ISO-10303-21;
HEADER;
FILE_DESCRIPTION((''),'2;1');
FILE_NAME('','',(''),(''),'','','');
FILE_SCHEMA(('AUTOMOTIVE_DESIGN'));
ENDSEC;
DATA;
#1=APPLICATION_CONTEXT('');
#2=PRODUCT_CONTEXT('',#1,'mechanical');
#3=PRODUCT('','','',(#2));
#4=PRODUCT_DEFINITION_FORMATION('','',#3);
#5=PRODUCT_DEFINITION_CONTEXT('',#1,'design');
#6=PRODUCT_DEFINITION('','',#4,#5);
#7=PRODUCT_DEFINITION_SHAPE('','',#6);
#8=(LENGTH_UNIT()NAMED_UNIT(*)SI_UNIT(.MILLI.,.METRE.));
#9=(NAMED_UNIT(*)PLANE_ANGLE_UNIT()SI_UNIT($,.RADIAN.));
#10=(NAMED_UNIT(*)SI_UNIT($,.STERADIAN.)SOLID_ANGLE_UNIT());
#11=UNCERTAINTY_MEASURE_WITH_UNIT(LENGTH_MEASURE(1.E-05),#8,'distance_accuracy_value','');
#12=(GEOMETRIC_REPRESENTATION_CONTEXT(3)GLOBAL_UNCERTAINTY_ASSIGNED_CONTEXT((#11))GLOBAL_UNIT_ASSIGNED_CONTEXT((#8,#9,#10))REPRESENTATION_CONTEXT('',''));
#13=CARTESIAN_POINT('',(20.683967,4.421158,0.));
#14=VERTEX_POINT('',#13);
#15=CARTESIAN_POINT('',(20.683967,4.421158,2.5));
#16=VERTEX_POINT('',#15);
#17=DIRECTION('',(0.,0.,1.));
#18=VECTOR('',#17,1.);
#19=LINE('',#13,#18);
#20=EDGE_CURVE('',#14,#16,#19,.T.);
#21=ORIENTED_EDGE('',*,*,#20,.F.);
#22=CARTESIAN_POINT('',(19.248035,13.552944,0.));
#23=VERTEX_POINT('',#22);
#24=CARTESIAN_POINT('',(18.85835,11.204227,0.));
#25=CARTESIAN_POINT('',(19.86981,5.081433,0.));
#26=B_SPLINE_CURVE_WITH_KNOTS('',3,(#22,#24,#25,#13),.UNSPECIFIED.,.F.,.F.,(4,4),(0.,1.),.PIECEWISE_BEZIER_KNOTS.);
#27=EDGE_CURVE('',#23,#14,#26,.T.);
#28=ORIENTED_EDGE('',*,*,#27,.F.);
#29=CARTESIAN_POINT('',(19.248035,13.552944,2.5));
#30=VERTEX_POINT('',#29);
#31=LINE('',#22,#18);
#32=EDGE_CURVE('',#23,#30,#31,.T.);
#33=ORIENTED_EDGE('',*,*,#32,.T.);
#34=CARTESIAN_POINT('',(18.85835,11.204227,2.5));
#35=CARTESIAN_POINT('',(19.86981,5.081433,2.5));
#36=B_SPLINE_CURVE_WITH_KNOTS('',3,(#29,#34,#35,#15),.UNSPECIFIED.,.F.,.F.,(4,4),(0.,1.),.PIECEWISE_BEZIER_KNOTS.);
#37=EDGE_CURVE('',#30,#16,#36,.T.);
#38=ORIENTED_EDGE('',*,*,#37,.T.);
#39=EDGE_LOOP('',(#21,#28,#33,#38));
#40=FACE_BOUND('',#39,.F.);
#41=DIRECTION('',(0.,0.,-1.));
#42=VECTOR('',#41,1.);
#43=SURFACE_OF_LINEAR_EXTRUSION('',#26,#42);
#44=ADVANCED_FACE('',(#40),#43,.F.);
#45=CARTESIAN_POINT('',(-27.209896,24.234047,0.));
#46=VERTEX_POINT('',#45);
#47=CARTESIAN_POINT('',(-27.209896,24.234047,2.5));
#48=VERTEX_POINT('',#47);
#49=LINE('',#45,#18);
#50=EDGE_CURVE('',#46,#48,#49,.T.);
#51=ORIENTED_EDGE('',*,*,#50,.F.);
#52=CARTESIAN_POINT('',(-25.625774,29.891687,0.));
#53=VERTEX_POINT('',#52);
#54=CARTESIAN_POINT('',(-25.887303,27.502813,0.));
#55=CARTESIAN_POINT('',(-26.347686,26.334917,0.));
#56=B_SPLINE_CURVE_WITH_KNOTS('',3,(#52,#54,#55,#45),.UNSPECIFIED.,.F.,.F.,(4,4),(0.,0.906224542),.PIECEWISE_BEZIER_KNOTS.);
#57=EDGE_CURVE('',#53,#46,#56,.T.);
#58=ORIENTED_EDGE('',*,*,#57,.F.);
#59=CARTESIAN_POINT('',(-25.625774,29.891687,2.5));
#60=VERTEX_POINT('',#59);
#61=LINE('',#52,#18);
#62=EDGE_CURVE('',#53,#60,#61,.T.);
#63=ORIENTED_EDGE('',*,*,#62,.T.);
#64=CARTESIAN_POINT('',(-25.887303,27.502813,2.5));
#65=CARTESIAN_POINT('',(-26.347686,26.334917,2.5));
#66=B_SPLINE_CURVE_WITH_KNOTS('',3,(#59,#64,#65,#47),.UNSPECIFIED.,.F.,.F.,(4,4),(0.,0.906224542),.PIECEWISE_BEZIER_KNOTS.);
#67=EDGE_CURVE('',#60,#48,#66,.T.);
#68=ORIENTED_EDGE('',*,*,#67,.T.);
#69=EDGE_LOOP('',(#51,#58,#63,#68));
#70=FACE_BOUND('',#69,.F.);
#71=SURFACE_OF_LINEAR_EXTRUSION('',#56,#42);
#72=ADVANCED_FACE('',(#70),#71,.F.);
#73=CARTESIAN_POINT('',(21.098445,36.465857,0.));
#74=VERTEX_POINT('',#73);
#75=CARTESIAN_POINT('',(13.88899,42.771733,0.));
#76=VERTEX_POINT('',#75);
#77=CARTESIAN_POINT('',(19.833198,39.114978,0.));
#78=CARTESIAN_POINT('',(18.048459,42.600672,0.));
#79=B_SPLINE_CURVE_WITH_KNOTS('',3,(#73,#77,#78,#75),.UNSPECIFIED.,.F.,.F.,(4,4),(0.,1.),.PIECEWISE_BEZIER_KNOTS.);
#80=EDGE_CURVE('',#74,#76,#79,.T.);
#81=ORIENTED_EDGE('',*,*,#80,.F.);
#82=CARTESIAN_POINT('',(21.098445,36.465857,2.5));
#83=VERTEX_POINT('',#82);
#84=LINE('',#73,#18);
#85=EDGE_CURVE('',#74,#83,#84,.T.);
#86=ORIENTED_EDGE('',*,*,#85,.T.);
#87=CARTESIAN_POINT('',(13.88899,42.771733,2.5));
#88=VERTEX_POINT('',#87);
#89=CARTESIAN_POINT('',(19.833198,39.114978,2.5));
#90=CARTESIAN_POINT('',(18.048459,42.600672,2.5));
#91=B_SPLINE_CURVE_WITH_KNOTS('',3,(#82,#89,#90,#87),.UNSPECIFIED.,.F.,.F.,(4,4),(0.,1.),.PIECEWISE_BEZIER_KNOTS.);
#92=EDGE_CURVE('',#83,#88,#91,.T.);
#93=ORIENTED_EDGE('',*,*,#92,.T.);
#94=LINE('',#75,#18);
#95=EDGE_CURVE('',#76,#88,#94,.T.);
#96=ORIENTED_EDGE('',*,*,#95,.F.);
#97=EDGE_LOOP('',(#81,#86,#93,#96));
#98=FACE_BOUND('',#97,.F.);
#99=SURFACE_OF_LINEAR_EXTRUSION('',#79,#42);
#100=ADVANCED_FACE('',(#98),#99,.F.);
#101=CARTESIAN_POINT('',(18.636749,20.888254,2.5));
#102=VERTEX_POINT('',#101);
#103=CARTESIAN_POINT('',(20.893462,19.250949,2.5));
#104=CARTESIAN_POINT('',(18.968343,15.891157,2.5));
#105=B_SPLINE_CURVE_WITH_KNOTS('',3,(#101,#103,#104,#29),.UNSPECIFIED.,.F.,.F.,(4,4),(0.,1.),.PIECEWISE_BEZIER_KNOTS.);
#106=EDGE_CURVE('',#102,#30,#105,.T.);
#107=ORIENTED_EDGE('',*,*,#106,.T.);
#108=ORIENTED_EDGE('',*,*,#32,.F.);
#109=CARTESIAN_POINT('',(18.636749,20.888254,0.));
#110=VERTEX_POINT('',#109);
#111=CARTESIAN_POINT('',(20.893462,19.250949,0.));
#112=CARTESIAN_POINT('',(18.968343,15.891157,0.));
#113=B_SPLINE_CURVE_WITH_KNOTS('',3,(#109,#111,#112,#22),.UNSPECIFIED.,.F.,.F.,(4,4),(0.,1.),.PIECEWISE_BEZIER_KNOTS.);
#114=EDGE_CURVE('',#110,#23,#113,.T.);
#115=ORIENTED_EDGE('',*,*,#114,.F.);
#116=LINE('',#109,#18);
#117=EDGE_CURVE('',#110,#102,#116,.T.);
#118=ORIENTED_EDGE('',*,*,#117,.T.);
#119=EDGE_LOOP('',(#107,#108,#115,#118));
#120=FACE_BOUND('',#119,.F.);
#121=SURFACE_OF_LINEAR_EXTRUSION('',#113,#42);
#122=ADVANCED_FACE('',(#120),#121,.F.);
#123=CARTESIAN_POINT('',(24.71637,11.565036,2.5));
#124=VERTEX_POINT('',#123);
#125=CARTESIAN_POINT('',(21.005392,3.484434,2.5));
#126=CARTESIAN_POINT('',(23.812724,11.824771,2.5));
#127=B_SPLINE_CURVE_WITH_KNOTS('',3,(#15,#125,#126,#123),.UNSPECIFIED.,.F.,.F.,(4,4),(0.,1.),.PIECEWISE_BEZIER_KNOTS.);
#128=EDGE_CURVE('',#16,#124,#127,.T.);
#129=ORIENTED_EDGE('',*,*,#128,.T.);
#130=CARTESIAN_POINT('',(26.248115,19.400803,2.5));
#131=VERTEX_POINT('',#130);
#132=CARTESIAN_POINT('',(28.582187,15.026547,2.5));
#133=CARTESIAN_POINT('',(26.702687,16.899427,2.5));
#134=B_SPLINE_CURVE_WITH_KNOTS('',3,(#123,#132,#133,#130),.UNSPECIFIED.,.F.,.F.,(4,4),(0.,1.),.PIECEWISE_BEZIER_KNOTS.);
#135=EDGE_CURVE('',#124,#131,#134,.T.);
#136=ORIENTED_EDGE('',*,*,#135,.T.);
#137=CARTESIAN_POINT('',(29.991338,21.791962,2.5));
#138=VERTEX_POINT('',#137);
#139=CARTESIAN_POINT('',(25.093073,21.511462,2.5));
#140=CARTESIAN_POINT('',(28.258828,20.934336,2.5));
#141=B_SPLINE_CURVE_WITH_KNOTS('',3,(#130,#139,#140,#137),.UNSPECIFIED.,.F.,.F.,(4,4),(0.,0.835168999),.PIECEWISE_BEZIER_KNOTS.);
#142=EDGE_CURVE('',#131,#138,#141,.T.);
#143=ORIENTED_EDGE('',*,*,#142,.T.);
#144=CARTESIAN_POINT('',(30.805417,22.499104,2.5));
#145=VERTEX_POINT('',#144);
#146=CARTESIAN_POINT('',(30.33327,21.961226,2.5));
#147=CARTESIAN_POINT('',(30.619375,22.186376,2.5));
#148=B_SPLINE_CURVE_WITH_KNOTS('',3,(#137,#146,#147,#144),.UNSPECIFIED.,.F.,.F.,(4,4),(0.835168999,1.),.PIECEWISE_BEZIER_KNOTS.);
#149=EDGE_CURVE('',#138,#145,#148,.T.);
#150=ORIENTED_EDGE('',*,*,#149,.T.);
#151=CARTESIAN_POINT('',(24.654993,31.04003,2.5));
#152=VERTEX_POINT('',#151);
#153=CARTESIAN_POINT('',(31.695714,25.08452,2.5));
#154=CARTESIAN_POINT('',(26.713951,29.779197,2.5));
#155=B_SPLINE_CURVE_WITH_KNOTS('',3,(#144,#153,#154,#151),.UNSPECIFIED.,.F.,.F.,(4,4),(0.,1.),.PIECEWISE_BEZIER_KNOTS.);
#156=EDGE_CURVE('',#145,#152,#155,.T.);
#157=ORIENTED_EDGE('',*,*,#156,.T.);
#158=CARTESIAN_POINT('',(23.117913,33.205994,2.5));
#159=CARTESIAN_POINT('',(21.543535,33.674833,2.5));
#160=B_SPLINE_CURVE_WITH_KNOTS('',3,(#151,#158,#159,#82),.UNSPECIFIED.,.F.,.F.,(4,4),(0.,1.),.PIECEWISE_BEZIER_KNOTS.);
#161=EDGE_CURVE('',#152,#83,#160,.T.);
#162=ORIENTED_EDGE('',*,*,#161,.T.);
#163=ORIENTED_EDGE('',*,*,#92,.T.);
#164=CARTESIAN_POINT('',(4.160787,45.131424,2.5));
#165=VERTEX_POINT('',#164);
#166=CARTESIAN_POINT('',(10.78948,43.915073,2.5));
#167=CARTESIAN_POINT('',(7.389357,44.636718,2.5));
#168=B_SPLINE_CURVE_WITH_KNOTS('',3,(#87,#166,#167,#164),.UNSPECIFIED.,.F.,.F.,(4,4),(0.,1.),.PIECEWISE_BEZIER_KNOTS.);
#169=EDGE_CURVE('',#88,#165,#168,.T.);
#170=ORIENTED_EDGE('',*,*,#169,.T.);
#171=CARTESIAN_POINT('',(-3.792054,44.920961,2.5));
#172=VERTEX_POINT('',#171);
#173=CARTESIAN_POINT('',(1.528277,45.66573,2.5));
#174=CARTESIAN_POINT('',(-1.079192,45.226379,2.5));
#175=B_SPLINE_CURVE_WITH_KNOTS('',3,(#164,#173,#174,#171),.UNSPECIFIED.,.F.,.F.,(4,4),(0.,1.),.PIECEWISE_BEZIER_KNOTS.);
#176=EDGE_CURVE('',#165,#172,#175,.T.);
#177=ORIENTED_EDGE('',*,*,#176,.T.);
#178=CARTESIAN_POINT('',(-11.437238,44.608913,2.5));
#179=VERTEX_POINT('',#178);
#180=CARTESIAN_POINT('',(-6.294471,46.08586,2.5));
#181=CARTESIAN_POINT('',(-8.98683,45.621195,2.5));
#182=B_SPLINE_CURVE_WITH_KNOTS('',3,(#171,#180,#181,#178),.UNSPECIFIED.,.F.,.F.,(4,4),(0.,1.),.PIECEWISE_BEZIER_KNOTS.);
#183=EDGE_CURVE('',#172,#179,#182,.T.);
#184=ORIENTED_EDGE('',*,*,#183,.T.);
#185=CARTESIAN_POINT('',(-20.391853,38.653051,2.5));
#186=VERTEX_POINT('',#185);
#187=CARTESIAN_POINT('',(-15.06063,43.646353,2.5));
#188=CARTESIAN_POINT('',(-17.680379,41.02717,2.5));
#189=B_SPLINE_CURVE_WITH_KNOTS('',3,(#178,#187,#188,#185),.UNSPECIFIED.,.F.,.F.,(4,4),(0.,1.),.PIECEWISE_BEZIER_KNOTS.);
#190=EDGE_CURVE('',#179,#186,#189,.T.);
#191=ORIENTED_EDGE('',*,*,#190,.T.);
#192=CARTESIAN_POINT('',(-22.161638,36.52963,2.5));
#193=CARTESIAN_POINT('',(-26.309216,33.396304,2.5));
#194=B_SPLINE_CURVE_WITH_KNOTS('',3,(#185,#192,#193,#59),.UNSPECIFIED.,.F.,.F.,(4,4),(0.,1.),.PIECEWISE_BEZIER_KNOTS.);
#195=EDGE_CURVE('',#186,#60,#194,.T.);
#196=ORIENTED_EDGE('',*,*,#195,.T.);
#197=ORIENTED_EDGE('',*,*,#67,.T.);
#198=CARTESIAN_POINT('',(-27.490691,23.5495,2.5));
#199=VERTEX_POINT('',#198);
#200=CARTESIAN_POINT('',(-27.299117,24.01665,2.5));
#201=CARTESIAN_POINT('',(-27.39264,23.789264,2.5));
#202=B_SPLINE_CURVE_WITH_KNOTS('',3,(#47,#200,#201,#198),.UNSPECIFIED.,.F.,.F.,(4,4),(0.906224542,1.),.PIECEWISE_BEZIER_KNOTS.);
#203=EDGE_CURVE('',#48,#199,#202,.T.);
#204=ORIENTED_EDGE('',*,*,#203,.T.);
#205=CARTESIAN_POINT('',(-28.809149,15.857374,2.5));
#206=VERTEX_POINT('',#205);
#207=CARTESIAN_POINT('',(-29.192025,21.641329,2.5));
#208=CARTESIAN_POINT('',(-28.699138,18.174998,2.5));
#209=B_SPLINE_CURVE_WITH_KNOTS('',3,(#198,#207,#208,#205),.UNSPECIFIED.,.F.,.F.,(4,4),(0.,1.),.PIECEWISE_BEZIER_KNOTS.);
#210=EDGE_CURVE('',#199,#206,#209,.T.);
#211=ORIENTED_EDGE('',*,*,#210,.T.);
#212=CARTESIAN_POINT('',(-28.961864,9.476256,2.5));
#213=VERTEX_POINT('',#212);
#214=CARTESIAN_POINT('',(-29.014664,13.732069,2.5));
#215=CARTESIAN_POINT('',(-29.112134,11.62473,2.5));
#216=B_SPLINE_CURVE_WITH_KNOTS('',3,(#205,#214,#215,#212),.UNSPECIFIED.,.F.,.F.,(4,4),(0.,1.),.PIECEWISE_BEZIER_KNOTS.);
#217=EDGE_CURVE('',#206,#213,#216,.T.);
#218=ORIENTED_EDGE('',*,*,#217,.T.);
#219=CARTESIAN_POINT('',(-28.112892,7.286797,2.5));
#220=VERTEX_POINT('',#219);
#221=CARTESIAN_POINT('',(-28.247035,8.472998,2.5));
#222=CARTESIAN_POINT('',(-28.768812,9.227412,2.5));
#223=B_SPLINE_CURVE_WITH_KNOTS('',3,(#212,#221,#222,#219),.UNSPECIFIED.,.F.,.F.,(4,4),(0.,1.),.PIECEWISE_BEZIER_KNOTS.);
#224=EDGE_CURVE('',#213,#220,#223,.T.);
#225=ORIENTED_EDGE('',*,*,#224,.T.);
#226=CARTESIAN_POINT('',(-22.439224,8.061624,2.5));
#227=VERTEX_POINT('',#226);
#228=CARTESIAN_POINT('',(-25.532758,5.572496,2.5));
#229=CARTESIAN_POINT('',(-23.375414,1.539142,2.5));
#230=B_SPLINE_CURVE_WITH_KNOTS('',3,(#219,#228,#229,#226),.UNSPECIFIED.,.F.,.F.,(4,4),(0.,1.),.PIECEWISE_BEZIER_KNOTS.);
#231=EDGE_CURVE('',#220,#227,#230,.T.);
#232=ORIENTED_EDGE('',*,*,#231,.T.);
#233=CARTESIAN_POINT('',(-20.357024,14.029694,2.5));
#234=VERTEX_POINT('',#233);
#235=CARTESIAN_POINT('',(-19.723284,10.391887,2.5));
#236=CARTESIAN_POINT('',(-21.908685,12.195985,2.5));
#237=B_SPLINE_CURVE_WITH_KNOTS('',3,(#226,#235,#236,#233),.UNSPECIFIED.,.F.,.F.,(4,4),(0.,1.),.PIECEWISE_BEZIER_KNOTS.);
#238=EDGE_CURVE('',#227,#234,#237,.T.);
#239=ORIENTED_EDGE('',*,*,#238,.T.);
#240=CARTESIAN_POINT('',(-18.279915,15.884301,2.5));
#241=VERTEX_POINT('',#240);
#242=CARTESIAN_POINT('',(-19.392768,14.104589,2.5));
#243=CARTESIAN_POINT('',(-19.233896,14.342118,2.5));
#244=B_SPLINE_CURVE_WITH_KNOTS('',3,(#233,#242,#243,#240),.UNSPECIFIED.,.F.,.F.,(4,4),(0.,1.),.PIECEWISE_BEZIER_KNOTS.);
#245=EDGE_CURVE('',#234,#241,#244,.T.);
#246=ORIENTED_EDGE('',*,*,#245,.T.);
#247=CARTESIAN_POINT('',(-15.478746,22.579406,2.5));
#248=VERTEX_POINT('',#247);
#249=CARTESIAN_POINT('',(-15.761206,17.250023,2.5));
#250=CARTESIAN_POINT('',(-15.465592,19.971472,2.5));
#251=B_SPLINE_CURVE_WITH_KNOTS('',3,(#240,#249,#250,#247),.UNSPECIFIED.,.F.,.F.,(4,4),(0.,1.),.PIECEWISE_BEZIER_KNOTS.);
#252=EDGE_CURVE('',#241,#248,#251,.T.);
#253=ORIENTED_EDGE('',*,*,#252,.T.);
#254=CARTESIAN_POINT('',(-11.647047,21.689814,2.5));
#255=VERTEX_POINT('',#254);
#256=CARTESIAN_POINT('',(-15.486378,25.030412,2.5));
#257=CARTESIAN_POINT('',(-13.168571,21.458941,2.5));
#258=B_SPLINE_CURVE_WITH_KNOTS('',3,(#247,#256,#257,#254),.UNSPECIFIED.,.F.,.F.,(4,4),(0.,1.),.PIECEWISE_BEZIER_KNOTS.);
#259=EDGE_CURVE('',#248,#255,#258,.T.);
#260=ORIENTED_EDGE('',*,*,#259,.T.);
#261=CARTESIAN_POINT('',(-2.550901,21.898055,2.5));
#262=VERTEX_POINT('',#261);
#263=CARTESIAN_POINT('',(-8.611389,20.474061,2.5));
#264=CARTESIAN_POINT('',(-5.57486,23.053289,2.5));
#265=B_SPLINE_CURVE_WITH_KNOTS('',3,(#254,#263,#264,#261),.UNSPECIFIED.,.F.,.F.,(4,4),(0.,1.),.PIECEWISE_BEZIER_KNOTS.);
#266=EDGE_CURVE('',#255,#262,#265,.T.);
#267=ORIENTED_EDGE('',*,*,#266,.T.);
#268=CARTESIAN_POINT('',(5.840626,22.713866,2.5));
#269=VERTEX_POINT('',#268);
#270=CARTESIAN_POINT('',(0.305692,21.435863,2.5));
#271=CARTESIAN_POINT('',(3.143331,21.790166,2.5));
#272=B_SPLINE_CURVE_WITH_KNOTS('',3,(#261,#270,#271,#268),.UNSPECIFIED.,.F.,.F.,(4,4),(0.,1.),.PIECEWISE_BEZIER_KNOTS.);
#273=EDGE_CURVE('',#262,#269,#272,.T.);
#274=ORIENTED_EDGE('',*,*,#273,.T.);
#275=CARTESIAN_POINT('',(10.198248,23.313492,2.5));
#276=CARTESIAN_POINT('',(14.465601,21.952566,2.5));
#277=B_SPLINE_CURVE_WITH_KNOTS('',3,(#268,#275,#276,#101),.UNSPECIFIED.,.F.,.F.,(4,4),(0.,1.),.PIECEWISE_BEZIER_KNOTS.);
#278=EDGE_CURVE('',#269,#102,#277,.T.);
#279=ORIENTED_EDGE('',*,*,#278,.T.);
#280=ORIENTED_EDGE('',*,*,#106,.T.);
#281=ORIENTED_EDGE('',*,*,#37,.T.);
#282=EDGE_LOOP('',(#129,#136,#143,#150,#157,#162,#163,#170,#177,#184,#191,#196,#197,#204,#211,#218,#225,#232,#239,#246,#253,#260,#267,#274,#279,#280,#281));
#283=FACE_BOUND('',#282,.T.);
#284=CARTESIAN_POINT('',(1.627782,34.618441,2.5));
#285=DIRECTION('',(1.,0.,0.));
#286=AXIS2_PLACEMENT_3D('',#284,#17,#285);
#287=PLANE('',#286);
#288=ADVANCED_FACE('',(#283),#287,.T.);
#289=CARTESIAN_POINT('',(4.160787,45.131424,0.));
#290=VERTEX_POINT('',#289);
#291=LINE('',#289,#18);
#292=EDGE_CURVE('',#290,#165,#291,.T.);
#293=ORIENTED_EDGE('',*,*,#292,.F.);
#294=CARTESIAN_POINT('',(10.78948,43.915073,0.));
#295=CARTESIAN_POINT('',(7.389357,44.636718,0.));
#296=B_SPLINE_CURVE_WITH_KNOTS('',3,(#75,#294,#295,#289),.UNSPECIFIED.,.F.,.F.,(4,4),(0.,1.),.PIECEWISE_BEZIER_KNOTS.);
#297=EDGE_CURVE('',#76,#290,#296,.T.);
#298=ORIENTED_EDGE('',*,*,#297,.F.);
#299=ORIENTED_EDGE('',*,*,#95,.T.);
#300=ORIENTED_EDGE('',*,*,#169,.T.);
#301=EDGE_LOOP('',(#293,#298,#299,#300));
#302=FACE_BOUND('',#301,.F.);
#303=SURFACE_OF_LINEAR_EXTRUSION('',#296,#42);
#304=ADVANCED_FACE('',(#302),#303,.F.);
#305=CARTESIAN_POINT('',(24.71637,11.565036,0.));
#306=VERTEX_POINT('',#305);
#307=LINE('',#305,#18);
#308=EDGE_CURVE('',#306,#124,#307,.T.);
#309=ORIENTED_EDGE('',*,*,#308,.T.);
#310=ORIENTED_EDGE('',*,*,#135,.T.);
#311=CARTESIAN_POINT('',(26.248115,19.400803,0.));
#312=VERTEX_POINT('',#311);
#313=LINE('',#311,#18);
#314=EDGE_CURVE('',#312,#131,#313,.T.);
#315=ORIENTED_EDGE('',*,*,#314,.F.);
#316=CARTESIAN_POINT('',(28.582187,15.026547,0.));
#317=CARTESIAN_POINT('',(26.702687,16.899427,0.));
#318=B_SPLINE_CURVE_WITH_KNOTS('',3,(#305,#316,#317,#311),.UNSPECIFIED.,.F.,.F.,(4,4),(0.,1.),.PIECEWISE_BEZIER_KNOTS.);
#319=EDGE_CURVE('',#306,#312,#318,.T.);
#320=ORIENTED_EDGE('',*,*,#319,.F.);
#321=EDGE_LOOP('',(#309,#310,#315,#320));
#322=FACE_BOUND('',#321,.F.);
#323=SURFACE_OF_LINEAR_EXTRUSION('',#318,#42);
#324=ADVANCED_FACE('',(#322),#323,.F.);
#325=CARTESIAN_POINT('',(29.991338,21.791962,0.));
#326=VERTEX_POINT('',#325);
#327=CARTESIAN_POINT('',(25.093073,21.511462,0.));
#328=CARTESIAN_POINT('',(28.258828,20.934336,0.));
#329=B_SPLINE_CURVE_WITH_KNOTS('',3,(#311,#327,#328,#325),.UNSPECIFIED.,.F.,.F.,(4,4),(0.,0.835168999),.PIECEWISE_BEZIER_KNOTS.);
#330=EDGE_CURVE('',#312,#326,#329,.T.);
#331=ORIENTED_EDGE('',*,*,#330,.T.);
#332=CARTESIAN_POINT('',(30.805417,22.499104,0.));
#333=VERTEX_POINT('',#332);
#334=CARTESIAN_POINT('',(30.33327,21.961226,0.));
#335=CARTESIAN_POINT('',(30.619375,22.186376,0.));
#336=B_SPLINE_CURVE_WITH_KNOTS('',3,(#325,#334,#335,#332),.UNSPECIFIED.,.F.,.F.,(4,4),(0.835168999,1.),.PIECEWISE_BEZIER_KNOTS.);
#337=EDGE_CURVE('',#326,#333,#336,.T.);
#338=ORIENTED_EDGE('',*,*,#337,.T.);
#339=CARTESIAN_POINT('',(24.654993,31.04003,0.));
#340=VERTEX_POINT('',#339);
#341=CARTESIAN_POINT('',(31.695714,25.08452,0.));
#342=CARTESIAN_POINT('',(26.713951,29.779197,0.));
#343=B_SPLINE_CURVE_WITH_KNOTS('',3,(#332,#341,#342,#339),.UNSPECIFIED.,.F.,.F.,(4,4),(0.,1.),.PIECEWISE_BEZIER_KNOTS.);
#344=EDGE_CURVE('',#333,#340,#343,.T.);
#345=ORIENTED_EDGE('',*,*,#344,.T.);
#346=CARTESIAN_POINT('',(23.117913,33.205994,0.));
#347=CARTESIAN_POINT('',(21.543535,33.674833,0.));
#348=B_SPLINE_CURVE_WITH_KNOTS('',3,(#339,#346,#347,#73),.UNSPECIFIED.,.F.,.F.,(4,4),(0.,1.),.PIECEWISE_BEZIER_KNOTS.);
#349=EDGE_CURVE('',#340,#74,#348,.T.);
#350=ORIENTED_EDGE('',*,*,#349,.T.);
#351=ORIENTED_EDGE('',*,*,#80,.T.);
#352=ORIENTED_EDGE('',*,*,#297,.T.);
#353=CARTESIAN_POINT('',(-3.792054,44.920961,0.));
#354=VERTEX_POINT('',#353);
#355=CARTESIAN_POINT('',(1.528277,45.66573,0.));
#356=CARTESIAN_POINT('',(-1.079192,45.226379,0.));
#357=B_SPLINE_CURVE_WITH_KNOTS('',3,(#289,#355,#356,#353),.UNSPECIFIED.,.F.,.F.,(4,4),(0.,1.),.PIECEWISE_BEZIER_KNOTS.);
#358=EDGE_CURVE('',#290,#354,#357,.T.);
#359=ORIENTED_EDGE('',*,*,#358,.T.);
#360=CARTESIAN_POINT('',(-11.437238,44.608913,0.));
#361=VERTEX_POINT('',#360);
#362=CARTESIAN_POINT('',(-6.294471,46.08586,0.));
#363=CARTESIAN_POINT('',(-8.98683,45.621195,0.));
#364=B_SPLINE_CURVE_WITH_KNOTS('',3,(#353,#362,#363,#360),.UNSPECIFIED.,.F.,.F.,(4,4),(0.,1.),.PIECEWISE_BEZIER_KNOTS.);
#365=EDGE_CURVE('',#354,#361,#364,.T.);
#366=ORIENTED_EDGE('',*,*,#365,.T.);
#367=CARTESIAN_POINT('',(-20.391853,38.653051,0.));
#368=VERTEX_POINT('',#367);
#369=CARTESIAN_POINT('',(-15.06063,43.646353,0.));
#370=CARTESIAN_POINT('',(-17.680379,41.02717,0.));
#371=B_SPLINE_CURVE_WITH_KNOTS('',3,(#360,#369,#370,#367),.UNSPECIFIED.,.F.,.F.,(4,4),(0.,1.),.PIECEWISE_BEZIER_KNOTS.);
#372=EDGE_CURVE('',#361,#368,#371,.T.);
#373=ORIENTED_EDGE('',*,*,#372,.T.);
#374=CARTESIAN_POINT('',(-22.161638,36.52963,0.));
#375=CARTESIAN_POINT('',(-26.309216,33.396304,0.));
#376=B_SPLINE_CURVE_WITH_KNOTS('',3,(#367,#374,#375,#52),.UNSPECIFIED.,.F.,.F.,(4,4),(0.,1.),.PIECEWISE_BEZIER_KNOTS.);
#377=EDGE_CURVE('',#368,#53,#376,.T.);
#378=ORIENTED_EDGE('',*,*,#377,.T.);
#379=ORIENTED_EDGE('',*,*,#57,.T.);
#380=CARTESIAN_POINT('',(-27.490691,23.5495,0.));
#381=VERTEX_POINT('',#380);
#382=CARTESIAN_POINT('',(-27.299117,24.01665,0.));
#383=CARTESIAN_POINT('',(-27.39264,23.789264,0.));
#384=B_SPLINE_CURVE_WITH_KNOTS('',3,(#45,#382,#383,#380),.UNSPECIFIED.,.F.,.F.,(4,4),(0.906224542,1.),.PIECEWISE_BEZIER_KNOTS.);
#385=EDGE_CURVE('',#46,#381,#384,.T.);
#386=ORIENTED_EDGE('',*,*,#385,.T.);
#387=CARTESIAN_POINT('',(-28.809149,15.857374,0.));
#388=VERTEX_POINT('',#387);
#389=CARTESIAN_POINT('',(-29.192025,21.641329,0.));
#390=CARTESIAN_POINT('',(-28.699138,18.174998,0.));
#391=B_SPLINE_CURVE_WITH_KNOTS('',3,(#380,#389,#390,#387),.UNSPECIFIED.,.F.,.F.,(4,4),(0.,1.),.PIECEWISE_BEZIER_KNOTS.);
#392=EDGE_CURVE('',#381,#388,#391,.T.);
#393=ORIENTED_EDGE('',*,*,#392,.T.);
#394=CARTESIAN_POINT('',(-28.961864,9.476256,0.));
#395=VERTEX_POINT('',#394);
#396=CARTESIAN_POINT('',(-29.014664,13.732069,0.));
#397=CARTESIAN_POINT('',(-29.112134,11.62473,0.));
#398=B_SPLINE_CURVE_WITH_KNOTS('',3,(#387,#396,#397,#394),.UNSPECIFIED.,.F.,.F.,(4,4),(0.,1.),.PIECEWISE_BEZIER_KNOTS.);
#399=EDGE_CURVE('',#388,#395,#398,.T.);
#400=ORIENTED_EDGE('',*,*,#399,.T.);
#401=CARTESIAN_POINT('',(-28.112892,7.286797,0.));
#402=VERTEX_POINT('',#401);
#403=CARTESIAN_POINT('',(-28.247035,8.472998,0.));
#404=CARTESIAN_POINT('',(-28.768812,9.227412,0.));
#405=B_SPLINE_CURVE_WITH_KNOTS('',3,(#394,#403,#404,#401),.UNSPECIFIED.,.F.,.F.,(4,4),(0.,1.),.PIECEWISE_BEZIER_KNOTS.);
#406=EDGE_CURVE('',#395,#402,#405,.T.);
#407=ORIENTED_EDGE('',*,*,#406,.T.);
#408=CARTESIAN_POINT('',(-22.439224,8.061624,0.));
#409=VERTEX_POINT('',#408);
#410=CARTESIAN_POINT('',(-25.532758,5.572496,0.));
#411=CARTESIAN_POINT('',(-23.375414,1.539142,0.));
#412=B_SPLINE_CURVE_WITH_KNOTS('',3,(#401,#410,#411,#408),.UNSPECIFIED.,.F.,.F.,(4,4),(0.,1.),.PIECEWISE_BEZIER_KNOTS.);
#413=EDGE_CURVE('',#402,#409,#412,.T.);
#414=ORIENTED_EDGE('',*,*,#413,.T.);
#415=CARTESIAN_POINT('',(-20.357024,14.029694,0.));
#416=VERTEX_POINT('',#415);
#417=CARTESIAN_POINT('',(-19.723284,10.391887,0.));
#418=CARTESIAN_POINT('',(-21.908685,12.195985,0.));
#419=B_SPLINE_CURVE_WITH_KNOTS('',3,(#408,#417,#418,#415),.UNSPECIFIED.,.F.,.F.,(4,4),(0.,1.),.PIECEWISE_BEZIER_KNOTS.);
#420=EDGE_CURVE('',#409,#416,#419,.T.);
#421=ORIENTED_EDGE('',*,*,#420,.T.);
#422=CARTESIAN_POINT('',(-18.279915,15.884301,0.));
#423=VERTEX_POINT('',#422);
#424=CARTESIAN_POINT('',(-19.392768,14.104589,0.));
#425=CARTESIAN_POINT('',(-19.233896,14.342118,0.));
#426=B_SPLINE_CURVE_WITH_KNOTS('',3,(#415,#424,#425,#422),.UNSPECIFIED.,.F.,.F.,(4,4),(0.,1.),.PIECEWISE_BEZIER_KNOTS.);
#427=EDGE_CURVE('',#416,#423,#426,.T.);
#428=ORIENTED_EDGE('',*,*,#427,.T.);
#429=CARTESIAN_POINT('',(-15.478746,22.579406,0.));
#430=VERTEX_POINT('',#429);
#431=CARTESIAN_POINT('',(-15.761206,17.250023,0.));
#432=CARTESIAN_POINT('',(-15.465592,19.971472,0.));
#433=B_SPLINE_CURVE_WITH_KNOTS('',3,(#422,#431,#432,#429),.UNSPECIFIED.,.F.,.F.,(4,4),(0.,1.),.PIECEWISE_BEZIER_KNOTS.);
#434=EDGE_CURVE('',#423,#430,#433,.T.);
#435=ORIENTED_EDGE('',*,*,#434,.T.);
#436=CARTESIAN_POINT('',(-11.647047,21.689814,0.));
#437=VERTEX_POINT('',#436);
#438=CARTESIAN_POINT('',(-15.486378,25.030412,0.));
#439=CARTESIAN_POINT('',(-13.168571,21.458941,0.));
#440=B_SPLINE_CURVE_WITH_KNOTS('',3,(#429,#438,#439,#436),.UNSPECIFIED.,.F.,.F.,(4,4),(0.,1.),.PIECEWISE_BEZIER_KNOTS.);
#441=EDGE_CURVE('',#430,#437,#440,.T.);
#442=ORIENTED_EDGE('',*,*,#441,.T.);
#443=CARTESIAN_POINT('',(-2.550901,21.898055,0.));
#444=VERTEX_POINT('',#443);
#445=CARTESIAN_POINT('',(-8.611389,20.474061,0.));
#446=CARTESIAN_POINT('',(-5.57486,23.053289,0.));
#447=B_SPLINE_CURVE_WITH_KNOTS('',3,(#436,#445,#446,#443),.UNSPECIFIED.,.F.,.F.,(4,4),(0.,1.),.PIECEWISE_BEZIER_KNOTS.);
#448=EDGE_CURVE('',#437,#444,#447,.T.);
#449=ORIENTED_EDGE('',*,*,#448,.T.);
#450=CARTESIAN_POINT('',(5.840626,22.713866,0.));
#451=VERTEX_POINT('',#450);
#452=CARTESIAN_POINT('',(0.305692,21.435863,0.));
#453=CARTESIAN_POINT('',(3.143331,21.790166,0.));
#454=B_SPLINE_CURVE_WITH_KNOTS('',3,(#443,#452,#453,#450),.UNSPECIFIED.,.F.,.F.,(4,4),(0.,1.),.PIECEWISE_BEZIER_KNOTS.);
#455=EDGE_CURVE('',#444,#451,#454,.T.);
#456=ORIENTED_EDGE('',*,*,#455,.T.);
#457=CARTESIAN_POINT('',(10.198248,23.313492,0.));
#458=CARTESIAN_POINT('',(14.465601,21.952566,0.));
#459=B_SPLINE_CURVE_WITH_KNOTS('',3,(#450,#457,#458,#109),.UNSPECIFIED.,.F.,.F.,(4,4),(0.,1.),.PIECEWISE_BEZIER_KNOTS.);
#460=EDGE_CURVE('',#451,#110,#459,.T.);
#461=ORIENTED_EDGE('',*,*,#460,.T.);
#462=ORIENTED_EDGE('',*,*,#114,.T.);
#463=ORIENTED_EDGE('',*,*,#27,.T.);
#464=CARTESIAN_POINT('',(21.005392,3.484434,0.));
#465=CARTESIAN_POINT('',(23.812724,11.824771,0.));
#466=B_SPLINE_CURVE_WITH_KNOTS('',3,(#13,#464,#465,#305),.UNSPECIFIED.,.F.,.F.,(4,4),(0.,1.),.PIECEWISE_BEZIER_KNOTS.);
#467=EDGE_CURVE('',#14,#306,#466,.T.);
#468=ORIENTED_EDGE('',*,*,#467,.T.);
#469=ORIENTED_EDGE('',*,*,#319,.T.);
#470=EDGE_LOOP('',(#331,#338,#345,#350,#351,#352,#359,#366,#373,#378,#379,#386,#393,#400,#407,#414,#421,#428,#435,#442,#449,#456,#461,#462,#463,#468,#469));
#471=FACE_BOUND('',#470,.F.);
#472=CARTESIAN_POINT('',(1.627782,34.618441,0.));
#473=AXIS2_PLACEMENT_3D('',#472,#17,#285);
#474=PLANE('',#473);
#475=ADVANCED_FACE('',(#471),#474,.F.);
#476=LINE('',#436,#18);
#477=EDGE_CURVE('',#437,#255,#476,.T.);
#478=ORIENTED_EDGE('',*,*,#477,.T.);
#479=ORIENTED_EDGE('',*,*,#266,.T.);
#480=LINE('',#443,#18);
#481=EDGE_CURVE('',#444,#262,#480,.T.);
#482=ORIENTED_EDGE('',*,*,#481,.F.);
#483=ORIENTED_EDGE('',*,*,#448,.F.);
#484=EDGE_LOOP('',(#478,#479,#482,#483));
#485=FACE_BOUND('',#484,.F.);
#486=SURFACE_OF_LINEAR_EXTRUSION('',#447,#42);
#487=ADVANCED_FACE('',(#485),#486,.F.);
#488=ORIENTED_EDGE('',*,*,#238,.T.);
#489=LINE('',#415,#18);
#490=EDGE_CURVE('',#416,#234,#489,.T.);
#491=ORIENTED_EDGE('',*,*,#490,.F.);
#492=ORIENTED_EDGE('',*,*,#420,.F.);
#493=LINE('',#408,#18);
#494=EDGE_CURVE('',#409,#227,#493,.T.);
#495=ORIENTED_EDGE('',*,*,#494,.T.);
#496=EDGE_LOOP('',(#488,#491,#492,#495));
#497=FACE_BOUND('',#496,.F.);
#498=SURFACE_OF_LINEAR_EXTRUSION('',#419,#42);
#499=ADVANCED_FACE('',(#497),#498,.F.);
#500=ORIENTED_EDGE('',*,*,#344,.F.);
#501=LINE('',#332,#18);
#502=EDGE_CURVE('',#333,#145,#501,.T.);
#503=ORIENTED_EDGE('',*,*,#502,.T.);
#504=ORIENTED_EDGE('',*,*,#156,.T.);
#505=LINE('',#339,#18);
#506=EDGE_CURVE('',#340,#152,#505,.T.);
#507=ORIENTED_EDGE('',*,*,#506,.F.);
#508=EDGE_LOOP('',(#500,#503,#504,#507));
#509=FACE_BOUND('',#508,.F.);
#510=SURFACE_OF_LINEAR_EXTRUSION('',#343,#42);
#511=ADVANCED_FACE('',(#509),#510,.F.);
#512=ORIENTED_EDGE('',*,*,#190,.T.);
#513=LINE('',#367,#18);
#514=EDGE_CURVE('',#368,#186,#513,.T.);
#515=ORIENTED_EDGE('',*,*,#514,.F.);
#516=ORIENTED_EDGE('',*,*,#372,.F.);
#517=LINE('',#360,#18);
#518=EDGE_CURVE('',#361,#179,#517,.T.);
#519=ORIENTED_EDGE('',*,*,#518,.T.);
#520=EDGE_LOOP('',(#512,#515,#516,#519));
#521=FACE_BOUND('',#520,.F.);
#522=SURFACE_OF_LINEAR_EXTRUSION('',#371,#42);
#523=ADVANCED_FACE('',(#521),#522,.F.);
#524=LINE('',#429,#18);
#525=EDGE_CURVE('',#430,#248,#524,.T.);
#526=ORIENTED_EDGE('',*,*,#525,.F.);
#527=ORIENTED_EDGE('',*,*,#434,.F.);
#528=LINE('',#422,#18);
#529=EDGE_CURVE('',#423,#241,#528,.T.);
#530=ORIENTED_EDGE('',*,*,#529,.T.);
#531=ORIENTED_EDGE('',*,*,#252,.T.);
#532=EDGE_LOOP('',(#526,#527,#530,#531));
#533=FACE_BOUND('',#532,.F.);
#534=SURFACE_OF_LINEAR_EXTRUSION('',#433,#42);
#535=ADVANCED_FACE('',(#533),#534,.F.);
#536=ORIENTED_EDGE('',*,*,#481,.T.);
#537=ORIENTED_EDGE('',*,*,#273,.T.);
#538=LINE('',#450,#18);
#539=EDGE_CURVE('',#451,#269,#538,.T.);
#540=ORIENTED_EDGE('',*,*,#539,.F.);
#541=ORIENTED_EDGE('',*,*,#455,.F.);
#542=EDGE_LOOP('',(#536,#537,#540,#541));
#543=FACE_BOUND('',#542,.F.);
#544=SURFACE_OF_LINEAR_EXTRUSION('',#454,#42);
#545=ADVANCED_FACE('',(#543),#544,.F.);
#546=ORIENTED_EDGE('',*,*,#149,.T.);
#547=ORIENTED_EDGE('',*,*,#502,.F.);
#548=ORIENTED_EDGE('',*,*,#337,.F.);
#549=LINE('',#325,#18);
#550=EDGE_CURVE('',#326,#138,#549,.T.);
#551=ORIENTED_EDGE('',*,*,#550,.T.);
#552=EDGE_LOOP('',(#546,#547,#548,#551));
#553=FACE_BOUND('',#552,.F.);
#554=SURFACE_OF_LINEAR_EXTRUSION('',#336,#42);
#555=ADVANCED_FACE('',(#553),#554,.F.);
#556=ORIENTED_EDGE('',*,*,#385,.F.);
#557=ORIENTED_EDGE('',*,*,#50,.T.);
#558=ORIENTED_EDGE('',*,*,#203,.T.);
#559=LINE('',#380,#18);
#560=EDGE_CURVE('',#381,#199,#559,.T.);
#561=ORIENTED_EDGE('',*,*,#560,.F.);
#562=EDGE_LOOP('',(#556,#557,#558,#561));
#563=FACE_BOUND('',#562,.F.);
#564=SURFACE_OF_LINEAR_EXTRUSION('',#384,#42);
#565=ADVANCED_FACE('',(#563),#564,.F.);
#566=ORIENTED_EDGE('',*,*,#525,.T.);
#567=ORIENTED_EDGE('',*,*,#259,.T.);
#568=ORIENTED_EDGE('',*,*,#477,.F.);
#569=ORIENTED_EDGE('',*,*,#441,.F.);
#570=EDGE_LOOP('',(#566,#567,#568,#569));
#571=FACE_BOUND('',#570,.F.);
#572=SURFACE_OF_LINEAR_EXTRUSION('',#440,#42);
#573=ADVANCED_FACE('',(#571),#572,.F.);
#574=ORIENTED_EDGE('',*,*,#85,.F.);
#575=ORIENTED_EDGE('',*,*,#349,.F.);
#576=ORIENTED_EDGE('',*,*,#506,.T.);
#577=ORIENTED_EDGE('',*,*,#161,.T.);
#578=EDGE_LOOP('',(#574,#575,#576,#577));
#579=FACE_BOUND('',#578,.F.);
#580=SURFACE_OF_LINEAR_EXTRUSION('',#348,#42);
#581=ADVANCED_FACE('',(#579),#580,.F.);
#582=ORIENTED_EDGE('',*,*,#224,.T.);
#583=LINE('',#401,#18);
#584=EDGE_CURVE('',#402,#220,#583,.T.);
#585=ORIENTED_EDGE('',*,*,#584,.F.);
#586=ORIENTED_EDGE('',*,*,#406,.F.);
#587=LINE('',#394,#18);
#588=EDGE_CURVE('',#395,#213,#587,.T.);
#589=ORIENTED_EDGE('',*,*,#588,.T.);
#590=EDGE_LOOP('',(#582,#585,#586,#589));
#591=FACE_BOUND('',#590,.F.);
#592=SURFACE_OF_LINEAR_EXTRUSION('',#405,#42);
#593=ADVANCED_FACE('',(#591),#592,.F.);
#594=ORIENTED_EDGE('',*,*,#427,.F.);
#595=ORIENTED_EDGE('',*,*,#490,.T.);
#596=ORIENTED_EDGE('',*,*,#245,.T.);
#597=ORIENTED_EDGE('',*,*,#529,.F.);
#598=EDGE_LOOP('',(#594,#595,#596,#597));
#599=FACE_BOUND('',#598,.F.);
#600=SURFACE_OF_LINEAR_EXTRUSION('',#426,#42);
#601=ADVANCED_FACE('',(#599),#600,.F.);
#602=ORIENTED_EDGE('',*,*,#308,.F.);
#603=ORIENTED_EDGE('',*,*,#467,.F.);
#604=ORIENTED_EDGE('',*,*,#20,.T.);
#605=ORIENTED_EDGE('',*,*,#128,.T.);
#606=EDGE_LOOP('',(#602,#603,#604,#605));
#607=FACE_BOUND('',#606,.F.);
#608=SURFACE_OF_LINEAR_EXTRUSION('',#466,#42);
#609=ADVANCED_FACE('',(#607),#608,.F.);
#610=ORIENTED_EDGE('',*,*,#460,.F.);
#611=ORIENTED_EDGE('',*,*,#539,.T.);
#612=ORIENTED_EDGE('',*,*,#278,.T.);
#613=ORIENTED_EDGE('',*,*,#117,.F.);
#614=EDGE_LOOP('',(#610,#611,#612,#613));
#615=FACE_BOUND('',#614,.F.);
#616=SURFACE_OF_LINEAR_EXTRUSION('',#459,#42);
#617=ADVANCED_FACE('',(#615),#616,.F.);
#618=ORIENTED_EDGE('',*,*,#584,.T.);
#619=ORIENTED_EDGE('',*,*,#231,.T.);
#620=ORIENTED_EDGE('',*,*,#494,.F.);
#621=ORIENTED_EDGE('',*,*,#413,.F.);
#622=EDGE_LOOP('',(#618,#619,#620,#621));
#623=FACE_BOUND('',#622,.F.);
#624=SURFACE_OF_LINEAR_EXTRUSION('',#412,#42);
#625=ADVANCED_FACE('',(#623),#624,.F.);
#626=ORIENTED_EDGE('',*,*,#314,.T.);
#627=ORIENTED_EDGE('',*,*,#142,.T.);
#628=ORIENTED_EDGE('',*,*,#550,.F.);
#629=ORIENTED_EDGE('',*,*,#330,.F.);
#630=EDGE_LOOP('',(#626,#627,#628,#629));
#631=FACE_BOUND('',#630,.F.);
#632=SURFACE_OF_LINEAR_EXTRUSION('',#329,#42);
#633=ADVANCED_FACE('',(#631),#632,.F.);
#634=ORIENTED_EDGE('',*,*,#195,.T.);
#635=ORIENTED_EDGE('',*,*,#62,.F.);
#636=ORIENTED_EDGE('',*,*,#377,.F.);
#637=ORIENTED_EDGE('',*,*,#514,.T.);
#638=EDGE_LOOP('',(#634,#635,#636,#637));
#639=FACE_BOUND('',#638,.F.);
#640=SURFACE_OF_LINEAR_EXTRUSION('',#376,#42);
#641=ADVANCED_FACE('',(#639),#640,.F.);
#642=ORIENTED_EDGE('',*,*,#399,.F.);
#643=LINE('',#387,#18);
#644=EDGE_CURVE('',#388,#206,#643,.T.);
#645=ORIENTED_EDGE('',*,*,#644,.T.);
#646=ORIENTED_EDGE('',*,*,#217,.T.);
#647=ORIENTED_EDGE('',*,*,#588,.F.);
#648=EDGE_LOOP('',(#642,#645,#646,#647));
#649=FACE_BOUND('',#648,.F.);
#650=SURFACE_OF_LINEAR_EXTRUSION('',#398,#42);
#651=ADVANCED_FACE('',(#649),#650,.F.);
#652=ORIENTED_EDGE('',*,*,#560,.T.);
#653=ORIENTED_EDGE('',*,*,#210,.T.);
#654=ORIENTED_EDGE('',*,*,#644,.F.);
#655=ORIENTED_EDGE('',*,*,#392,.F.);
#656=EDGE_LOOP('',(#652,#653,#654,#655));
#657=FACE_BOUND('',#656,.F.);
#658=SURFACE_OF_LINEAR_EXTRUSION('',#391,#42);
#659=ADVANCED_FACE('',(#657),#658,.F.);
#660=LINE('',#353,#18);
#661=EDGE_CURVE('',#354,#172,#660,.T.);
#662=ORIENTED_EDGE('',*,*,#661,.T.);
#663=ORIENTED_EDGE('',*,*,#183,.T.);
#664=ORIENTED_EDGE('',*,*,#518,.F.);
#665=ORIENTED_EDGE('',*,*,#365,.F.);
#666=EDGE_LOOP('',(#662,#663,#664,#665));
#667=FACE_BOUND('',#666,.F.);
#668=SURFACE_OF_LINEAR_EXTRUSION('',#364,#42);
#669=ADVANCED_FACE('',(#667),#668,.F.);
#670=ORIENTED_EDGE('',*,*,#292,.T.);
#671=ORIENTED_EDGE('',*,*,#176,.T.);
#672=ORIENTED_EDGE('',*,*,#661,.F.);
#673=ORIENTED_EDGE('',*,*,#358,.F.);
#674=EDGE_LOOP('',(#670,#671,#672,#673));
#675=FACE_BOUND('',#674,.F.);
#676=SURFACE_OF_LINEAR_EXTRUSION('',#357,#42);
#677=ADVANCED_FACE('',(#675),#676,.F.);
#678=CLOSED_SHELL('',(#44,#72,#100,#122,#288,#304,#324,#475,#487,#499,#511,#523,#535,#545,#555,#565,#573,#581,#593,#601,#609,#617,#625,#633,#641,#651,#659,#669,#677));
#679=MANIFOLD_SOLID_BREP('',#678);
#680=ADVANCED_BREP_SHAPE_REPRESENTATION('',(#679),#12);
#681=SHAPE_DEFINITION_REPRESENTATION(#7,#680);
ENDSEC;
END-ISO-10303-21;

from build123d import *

# Parameters (mm, degrees)
F1_DEPTH = 2.5


with BuildPart() as f1:
    # F0 (on Top) → F1 (new body)
    with BuildSketch(Plane.XY):
        with BuildLine():
            add(Edge.make_bspline(
                [(-25.6257737843, 29.8916869719), (-25.8873034064, 27.5028125175), (-26.3476858106, 26.3349166155), (-27.2098956588, 24.2340467342)],
                knots=[0, 0, 0, 0, 0.906224542, 0.906224542, 0.906224542, 0.906224542], degree=3))
            add(Edge.make_bspline(
                [(-27.2098956588, 24.2340467342), (-19.7568631721, 31.0778006363), (-9.9904411425, 34.8972392423), (0.1697760545, 34.8972392423)],
                knots=[0.0536881033, 0.0536881033, 0.0536881033, 0.0536881033, 1, 1, 1, 1], degree=3))
            add(Edge.make_bspline(
                [(0.1697760545, 34.8972392423), (10.9064226016, 34.8972392423), (21.2033250388, 30.6321223941), (28.7952806224, 23.0401668105)],
                knots=[0, 0, 0, 0, 1, 1, 1, 1], degree=3))
            add(Edge.make_bspline(
                [(28.7952806224, 23.0401668105), (29.2036402391, 22.6318071461), (29.6023746478, 22.2156215356), (29.9913378332, 21.7919624913)],
                knots=[0, 0, 0, 0, 0.0537884623, 0.0537884623, 0.0537884623, 0.0537884623], degree=3))
            add(Edge.make_bspline(
                [(29.9913378332, 21.7919624913), (30.3332701533, 21.9612258157), (30.6193747535, 22.1863755662), (30.8054165504, 22.4991043824)],
                knots=[0.8351689985, 0.8351689985, 0.8351689985, 0.8351689985, 1, 1, 1, 1], degree=3))
            add(Edge.make_bspline(
                [(30.8054165504, 22.4991043824), (31.6957144217, 25.0845200026), (26.7139510097, 29.7791972617), (24.6549925526, 31.0400298102)],
                knots=[0, 0, 0, 0, 1, 1, 1, 1], degree=3))
            add(Edge.make_bspline(
                [(24.6549925526, 31.0400298102), (23.1179127612, 33.2059942426), (21.5435347067, 33.6748327354), (21.0984451745, 36.465856937)],
                knots=[0, 0, 0, 0, 1, 1, 1, 1], degree=3))
            add(Edge.make_bspline(
                [(21.0984451745, 36.465856937), (19.8331981529, 39.1149778628), (18.0484592424, 42.6006720177), (13.8889900701, 42.7717326263)],
                knots=[0, 0, 0, 0, 1, 1, 1, 1], degree=3))
            add(Edge.make_bspline(
                [(13.8889900701, 42.7717326263), (10.7894802938, 43.9150731637), (7.3893572276, 44.6367175954), (4.1607868433, 45.1314240668)],
                knots=[0, 0, 0, 0, 1, 1, 1, 1], degree=3))
            add(Edge.make_bspline(
                [(4.1607868433, 45.1314240668), (1.5282767132, 45.665729576), (-1.0791917665, 45.2263791247), (-3.7920543494, 44.9209612497)],
                knots=[0, 0, 0, 0, 1, 1, 1, 1], degree=3))
            add(Edge.make_bspline(
                [(-3.7920543494, 44.9209612497), (-6.2944709608, 46.0858599135), (-8.9868296064, 45.6211947336), (-11.4372380688, 44.6089132422)],
                knots=[0, 0, 0, 0, 1, 1, 1, 1], degree=3))
            add(Edge.make_bspline(
                [(-11.4372380688, 44.6089132422), (-15.0606302684, 43.646353311), (-17.6803792997, 41.0271699422), (-20.3918525515, 38.6530505605)],
                knots=[0, 0, 0, 0, 1, 1, 1, 1], degree=3))
            add(Edge.make_bspline(
                [(-20.3918525515, 38.6530505605), (-22.1616377559, 36.5296296256), (-26.3092164888, 33.3963042234), (-25.6257737843, 29.8916869719)],
                knots=[0, 0, 0, 0, 1, 1, 1, 1], degree=3))
        make_face()
        with BuildLine():
            add(Edge.make_bspline(
                [(-28.1128917952, 7.2867966011), (-25.5327577608, 5.5724959764), (-23.3754139192, 1.5391420658), (-22.4392237926, 8.0616239512)],
                knots=[0, 0, 0, 0, 1, 1, 1, 1], degree=3))
            add(Edge.make_bspline(
                [(-22.4392237926, 8.0616239512), (-19.7232837573, 10.3918867536), (-21.9086846384, 12.1959849769), (-20.3570244073, 14.0296944818)],
                knots=[0, 0, 0, 0, 1, 1, 1, 1], degree=3))
            add(Edge.make_bspline(
                [(-20.3570244073, 14.0296944818), (-19.3927683751, 14.1045889117), (-19.2338961097, 14.3421184154), (-18.2799150982, 15.8843006958)],
                knots=[0, 0, 0, 0, 1, 1, 1, 1], degree=3))
            add(Edge.make_bspline(
                [(-18.2799150982, 15.8843006958), (-15.7612059869, 17.2500228615), (-15.4655923382, 19.9714723435), (-15.4787462089, 22.579406298)],
                knots=[0, 0, 0, 0, 1, 1, 1, 1], degree=3))
            add(Edge.make_bspline(
                [(-15.4787462089, 22.579406298), (-15.4863782201, 25.0304123412), (-13.1685706331, 21.4589405155), (-11.6470474482, 21.6898141749)],
                knots=[0, 0, 0, 0, 1, 1, 1, 1], degree=3))
            add(Edge.make_bspline(
                [(-11.6470474482, 21.6898141749), (-8.6113892696, 20.4740608526), (-5.5748604317, 23.0532887629), (-2.550901183, 21.8980551263)],
                knots=[0, 0, 0, 0, 1, 1, 1, 1], degree=3))
            add(Edge.make_bspline(
                [(-2.550901183, 21.8980551263), (0.3056919961, 21.435862725), (3.1433310469, 21.7901660791), (5.8406263838, 22.7138664122)],
                knots=[0, 0, 0, 0, 1, 1, 1, 1], degree=3))
            add(Edge.make_bspline(
                [(5.8406263838, 22.7138664122), (10.1982476767, 23.3134917592), (14.4656005765, 21.9525661991), (18.6367491731, 20.8882535066)],
                knots=[0, 0, 0, 0, 1, 1, 1, 1], degree=3))
            add(Edge.make_bspline(
                [(18.6367491731, 20.8882535066), (20.8934616591, 19.2509494841), (18.9683426833, 15.8911569159), (19.2480353254, 13.5529438063)],
                knots=[0, 0, 0, 0, 1, 1, 1, 1], degree=3))
            add(Edge.make_bspline(
                [(19.2480353254, 13.5529438063), (18.8583496906, 11.2042269284), (19.8698101733, 5.08143262), (20.6839670293, 4.421158141)],
                knots=[0, 0, 0, 0, 1, 1, 1, 1], degree=3))
            add(Edge.make_bspline(
                [(20.6839670293, 4.421158141), (21.005391913, 3.4844342702), (23.8127236869, 11.82477115), (24.7163704849, 11.5650362883)],
                knots=[0, 0, 0, 0, 1, 1, 1, 1], degree=3))
            add(Edge.make_bspline(
                [(24.7163704849, 11.5650362883), (28.5821872084, 15.0265470396), (26.7026865228, 16.8994273456), (26.2481154934, 19.400803067)],
                knots=[0, 0, 0, 0, 1, 1, 1, 1], degree=3))
            add(Edge.make_bspline(
                [(26.2481154934, 19.400803067), (25.0930725774, 21.5114623664), (28.2588283498, 20.9343357116), (29.9913378332, 21.7919624913)],
                knots=[0, 0, 0, 0, 0.8351689985, 0.8351689985, 0.8351689985, 0.8351689985], degree=3))
            add(Edge.make_bspline(
                [(28.7952806224, 23.0401668105), (29.2036402391, 22.6318071461), (29.6023746478, 22.2156215356), (29.9913378332, 21.7919624913)],
                knots=[0, 0, 0, 0, 0.0537884623, 0.0537884623, 0.0537884623, 0.0537884623], degree=3))
            add(Edge.make_bspline(
                [(0.1697760545, 34.8972392423), (10.9064226016, 34.8972392423), (21.2033250388, 30.6321223941), (28.7952806224, 23.0401668105)],
                knots=[0, 0, 0, 0, 1, 1, 1, 1], degree=3))
            add(Edge.make_bspline(
                [(-27.2098956588, 24.2340467342), (-19.7568631721, 31.0778006363), (-9.9904411425, 34.8972392423), (0.1697760545, 34.8972392423)],
                knots=[0.0536881033, 0.0536881033, 0.0536881033, 0.0536881033, 1, 1, 1, 1], degree=3))
            add(Edge.make_bspline(
                [(-27.2098956588, 24.2340467342), (-27.2991165082, 24.0166502434), (-27.3926401099, 23.7892635044), (-27.4906913704, 23.5494998258)],
                knots=[0.906224542, 0.906224542, 0.906224542, 0.906224542, 1, 1, 1, 1], degree=3))
            add(Edge.make_bspline(
                [(-27.4906913704, 23.5494998258), (-29.1920252009, 21.6413285608), (-28.6991380704, 18.1749981518), (-28.8091487955, 15.8573740948)],
                knots=[0, 0, 0, 0, 1, 1, 1, 1], degree=3))
            add(Edge.make_bspline(
                [(-28.8091487955, 15.8573740948), (-29.0146642819, 13.7320690959), (-29.1121337897, 11.6247296457), (-28.9618643827, 9.4762564212)],
                knots=[0, 0, 0, 0, 1, 1, 1, 1], degree=3))
            add(Edge.make_bspline(
                [(-28.9618643827, 9.4762564212), (-28.2470345, 8.4729980453), (-28.7688120912, 9.2274118933), (-28.1128917952, 7.2867966011)],
                knots=[0, 0, 0, 0, 1, 1, 1, 1], degree=3))
        make_face()
    extrude(amount=F1_DEPTH)


solid = f1.part
